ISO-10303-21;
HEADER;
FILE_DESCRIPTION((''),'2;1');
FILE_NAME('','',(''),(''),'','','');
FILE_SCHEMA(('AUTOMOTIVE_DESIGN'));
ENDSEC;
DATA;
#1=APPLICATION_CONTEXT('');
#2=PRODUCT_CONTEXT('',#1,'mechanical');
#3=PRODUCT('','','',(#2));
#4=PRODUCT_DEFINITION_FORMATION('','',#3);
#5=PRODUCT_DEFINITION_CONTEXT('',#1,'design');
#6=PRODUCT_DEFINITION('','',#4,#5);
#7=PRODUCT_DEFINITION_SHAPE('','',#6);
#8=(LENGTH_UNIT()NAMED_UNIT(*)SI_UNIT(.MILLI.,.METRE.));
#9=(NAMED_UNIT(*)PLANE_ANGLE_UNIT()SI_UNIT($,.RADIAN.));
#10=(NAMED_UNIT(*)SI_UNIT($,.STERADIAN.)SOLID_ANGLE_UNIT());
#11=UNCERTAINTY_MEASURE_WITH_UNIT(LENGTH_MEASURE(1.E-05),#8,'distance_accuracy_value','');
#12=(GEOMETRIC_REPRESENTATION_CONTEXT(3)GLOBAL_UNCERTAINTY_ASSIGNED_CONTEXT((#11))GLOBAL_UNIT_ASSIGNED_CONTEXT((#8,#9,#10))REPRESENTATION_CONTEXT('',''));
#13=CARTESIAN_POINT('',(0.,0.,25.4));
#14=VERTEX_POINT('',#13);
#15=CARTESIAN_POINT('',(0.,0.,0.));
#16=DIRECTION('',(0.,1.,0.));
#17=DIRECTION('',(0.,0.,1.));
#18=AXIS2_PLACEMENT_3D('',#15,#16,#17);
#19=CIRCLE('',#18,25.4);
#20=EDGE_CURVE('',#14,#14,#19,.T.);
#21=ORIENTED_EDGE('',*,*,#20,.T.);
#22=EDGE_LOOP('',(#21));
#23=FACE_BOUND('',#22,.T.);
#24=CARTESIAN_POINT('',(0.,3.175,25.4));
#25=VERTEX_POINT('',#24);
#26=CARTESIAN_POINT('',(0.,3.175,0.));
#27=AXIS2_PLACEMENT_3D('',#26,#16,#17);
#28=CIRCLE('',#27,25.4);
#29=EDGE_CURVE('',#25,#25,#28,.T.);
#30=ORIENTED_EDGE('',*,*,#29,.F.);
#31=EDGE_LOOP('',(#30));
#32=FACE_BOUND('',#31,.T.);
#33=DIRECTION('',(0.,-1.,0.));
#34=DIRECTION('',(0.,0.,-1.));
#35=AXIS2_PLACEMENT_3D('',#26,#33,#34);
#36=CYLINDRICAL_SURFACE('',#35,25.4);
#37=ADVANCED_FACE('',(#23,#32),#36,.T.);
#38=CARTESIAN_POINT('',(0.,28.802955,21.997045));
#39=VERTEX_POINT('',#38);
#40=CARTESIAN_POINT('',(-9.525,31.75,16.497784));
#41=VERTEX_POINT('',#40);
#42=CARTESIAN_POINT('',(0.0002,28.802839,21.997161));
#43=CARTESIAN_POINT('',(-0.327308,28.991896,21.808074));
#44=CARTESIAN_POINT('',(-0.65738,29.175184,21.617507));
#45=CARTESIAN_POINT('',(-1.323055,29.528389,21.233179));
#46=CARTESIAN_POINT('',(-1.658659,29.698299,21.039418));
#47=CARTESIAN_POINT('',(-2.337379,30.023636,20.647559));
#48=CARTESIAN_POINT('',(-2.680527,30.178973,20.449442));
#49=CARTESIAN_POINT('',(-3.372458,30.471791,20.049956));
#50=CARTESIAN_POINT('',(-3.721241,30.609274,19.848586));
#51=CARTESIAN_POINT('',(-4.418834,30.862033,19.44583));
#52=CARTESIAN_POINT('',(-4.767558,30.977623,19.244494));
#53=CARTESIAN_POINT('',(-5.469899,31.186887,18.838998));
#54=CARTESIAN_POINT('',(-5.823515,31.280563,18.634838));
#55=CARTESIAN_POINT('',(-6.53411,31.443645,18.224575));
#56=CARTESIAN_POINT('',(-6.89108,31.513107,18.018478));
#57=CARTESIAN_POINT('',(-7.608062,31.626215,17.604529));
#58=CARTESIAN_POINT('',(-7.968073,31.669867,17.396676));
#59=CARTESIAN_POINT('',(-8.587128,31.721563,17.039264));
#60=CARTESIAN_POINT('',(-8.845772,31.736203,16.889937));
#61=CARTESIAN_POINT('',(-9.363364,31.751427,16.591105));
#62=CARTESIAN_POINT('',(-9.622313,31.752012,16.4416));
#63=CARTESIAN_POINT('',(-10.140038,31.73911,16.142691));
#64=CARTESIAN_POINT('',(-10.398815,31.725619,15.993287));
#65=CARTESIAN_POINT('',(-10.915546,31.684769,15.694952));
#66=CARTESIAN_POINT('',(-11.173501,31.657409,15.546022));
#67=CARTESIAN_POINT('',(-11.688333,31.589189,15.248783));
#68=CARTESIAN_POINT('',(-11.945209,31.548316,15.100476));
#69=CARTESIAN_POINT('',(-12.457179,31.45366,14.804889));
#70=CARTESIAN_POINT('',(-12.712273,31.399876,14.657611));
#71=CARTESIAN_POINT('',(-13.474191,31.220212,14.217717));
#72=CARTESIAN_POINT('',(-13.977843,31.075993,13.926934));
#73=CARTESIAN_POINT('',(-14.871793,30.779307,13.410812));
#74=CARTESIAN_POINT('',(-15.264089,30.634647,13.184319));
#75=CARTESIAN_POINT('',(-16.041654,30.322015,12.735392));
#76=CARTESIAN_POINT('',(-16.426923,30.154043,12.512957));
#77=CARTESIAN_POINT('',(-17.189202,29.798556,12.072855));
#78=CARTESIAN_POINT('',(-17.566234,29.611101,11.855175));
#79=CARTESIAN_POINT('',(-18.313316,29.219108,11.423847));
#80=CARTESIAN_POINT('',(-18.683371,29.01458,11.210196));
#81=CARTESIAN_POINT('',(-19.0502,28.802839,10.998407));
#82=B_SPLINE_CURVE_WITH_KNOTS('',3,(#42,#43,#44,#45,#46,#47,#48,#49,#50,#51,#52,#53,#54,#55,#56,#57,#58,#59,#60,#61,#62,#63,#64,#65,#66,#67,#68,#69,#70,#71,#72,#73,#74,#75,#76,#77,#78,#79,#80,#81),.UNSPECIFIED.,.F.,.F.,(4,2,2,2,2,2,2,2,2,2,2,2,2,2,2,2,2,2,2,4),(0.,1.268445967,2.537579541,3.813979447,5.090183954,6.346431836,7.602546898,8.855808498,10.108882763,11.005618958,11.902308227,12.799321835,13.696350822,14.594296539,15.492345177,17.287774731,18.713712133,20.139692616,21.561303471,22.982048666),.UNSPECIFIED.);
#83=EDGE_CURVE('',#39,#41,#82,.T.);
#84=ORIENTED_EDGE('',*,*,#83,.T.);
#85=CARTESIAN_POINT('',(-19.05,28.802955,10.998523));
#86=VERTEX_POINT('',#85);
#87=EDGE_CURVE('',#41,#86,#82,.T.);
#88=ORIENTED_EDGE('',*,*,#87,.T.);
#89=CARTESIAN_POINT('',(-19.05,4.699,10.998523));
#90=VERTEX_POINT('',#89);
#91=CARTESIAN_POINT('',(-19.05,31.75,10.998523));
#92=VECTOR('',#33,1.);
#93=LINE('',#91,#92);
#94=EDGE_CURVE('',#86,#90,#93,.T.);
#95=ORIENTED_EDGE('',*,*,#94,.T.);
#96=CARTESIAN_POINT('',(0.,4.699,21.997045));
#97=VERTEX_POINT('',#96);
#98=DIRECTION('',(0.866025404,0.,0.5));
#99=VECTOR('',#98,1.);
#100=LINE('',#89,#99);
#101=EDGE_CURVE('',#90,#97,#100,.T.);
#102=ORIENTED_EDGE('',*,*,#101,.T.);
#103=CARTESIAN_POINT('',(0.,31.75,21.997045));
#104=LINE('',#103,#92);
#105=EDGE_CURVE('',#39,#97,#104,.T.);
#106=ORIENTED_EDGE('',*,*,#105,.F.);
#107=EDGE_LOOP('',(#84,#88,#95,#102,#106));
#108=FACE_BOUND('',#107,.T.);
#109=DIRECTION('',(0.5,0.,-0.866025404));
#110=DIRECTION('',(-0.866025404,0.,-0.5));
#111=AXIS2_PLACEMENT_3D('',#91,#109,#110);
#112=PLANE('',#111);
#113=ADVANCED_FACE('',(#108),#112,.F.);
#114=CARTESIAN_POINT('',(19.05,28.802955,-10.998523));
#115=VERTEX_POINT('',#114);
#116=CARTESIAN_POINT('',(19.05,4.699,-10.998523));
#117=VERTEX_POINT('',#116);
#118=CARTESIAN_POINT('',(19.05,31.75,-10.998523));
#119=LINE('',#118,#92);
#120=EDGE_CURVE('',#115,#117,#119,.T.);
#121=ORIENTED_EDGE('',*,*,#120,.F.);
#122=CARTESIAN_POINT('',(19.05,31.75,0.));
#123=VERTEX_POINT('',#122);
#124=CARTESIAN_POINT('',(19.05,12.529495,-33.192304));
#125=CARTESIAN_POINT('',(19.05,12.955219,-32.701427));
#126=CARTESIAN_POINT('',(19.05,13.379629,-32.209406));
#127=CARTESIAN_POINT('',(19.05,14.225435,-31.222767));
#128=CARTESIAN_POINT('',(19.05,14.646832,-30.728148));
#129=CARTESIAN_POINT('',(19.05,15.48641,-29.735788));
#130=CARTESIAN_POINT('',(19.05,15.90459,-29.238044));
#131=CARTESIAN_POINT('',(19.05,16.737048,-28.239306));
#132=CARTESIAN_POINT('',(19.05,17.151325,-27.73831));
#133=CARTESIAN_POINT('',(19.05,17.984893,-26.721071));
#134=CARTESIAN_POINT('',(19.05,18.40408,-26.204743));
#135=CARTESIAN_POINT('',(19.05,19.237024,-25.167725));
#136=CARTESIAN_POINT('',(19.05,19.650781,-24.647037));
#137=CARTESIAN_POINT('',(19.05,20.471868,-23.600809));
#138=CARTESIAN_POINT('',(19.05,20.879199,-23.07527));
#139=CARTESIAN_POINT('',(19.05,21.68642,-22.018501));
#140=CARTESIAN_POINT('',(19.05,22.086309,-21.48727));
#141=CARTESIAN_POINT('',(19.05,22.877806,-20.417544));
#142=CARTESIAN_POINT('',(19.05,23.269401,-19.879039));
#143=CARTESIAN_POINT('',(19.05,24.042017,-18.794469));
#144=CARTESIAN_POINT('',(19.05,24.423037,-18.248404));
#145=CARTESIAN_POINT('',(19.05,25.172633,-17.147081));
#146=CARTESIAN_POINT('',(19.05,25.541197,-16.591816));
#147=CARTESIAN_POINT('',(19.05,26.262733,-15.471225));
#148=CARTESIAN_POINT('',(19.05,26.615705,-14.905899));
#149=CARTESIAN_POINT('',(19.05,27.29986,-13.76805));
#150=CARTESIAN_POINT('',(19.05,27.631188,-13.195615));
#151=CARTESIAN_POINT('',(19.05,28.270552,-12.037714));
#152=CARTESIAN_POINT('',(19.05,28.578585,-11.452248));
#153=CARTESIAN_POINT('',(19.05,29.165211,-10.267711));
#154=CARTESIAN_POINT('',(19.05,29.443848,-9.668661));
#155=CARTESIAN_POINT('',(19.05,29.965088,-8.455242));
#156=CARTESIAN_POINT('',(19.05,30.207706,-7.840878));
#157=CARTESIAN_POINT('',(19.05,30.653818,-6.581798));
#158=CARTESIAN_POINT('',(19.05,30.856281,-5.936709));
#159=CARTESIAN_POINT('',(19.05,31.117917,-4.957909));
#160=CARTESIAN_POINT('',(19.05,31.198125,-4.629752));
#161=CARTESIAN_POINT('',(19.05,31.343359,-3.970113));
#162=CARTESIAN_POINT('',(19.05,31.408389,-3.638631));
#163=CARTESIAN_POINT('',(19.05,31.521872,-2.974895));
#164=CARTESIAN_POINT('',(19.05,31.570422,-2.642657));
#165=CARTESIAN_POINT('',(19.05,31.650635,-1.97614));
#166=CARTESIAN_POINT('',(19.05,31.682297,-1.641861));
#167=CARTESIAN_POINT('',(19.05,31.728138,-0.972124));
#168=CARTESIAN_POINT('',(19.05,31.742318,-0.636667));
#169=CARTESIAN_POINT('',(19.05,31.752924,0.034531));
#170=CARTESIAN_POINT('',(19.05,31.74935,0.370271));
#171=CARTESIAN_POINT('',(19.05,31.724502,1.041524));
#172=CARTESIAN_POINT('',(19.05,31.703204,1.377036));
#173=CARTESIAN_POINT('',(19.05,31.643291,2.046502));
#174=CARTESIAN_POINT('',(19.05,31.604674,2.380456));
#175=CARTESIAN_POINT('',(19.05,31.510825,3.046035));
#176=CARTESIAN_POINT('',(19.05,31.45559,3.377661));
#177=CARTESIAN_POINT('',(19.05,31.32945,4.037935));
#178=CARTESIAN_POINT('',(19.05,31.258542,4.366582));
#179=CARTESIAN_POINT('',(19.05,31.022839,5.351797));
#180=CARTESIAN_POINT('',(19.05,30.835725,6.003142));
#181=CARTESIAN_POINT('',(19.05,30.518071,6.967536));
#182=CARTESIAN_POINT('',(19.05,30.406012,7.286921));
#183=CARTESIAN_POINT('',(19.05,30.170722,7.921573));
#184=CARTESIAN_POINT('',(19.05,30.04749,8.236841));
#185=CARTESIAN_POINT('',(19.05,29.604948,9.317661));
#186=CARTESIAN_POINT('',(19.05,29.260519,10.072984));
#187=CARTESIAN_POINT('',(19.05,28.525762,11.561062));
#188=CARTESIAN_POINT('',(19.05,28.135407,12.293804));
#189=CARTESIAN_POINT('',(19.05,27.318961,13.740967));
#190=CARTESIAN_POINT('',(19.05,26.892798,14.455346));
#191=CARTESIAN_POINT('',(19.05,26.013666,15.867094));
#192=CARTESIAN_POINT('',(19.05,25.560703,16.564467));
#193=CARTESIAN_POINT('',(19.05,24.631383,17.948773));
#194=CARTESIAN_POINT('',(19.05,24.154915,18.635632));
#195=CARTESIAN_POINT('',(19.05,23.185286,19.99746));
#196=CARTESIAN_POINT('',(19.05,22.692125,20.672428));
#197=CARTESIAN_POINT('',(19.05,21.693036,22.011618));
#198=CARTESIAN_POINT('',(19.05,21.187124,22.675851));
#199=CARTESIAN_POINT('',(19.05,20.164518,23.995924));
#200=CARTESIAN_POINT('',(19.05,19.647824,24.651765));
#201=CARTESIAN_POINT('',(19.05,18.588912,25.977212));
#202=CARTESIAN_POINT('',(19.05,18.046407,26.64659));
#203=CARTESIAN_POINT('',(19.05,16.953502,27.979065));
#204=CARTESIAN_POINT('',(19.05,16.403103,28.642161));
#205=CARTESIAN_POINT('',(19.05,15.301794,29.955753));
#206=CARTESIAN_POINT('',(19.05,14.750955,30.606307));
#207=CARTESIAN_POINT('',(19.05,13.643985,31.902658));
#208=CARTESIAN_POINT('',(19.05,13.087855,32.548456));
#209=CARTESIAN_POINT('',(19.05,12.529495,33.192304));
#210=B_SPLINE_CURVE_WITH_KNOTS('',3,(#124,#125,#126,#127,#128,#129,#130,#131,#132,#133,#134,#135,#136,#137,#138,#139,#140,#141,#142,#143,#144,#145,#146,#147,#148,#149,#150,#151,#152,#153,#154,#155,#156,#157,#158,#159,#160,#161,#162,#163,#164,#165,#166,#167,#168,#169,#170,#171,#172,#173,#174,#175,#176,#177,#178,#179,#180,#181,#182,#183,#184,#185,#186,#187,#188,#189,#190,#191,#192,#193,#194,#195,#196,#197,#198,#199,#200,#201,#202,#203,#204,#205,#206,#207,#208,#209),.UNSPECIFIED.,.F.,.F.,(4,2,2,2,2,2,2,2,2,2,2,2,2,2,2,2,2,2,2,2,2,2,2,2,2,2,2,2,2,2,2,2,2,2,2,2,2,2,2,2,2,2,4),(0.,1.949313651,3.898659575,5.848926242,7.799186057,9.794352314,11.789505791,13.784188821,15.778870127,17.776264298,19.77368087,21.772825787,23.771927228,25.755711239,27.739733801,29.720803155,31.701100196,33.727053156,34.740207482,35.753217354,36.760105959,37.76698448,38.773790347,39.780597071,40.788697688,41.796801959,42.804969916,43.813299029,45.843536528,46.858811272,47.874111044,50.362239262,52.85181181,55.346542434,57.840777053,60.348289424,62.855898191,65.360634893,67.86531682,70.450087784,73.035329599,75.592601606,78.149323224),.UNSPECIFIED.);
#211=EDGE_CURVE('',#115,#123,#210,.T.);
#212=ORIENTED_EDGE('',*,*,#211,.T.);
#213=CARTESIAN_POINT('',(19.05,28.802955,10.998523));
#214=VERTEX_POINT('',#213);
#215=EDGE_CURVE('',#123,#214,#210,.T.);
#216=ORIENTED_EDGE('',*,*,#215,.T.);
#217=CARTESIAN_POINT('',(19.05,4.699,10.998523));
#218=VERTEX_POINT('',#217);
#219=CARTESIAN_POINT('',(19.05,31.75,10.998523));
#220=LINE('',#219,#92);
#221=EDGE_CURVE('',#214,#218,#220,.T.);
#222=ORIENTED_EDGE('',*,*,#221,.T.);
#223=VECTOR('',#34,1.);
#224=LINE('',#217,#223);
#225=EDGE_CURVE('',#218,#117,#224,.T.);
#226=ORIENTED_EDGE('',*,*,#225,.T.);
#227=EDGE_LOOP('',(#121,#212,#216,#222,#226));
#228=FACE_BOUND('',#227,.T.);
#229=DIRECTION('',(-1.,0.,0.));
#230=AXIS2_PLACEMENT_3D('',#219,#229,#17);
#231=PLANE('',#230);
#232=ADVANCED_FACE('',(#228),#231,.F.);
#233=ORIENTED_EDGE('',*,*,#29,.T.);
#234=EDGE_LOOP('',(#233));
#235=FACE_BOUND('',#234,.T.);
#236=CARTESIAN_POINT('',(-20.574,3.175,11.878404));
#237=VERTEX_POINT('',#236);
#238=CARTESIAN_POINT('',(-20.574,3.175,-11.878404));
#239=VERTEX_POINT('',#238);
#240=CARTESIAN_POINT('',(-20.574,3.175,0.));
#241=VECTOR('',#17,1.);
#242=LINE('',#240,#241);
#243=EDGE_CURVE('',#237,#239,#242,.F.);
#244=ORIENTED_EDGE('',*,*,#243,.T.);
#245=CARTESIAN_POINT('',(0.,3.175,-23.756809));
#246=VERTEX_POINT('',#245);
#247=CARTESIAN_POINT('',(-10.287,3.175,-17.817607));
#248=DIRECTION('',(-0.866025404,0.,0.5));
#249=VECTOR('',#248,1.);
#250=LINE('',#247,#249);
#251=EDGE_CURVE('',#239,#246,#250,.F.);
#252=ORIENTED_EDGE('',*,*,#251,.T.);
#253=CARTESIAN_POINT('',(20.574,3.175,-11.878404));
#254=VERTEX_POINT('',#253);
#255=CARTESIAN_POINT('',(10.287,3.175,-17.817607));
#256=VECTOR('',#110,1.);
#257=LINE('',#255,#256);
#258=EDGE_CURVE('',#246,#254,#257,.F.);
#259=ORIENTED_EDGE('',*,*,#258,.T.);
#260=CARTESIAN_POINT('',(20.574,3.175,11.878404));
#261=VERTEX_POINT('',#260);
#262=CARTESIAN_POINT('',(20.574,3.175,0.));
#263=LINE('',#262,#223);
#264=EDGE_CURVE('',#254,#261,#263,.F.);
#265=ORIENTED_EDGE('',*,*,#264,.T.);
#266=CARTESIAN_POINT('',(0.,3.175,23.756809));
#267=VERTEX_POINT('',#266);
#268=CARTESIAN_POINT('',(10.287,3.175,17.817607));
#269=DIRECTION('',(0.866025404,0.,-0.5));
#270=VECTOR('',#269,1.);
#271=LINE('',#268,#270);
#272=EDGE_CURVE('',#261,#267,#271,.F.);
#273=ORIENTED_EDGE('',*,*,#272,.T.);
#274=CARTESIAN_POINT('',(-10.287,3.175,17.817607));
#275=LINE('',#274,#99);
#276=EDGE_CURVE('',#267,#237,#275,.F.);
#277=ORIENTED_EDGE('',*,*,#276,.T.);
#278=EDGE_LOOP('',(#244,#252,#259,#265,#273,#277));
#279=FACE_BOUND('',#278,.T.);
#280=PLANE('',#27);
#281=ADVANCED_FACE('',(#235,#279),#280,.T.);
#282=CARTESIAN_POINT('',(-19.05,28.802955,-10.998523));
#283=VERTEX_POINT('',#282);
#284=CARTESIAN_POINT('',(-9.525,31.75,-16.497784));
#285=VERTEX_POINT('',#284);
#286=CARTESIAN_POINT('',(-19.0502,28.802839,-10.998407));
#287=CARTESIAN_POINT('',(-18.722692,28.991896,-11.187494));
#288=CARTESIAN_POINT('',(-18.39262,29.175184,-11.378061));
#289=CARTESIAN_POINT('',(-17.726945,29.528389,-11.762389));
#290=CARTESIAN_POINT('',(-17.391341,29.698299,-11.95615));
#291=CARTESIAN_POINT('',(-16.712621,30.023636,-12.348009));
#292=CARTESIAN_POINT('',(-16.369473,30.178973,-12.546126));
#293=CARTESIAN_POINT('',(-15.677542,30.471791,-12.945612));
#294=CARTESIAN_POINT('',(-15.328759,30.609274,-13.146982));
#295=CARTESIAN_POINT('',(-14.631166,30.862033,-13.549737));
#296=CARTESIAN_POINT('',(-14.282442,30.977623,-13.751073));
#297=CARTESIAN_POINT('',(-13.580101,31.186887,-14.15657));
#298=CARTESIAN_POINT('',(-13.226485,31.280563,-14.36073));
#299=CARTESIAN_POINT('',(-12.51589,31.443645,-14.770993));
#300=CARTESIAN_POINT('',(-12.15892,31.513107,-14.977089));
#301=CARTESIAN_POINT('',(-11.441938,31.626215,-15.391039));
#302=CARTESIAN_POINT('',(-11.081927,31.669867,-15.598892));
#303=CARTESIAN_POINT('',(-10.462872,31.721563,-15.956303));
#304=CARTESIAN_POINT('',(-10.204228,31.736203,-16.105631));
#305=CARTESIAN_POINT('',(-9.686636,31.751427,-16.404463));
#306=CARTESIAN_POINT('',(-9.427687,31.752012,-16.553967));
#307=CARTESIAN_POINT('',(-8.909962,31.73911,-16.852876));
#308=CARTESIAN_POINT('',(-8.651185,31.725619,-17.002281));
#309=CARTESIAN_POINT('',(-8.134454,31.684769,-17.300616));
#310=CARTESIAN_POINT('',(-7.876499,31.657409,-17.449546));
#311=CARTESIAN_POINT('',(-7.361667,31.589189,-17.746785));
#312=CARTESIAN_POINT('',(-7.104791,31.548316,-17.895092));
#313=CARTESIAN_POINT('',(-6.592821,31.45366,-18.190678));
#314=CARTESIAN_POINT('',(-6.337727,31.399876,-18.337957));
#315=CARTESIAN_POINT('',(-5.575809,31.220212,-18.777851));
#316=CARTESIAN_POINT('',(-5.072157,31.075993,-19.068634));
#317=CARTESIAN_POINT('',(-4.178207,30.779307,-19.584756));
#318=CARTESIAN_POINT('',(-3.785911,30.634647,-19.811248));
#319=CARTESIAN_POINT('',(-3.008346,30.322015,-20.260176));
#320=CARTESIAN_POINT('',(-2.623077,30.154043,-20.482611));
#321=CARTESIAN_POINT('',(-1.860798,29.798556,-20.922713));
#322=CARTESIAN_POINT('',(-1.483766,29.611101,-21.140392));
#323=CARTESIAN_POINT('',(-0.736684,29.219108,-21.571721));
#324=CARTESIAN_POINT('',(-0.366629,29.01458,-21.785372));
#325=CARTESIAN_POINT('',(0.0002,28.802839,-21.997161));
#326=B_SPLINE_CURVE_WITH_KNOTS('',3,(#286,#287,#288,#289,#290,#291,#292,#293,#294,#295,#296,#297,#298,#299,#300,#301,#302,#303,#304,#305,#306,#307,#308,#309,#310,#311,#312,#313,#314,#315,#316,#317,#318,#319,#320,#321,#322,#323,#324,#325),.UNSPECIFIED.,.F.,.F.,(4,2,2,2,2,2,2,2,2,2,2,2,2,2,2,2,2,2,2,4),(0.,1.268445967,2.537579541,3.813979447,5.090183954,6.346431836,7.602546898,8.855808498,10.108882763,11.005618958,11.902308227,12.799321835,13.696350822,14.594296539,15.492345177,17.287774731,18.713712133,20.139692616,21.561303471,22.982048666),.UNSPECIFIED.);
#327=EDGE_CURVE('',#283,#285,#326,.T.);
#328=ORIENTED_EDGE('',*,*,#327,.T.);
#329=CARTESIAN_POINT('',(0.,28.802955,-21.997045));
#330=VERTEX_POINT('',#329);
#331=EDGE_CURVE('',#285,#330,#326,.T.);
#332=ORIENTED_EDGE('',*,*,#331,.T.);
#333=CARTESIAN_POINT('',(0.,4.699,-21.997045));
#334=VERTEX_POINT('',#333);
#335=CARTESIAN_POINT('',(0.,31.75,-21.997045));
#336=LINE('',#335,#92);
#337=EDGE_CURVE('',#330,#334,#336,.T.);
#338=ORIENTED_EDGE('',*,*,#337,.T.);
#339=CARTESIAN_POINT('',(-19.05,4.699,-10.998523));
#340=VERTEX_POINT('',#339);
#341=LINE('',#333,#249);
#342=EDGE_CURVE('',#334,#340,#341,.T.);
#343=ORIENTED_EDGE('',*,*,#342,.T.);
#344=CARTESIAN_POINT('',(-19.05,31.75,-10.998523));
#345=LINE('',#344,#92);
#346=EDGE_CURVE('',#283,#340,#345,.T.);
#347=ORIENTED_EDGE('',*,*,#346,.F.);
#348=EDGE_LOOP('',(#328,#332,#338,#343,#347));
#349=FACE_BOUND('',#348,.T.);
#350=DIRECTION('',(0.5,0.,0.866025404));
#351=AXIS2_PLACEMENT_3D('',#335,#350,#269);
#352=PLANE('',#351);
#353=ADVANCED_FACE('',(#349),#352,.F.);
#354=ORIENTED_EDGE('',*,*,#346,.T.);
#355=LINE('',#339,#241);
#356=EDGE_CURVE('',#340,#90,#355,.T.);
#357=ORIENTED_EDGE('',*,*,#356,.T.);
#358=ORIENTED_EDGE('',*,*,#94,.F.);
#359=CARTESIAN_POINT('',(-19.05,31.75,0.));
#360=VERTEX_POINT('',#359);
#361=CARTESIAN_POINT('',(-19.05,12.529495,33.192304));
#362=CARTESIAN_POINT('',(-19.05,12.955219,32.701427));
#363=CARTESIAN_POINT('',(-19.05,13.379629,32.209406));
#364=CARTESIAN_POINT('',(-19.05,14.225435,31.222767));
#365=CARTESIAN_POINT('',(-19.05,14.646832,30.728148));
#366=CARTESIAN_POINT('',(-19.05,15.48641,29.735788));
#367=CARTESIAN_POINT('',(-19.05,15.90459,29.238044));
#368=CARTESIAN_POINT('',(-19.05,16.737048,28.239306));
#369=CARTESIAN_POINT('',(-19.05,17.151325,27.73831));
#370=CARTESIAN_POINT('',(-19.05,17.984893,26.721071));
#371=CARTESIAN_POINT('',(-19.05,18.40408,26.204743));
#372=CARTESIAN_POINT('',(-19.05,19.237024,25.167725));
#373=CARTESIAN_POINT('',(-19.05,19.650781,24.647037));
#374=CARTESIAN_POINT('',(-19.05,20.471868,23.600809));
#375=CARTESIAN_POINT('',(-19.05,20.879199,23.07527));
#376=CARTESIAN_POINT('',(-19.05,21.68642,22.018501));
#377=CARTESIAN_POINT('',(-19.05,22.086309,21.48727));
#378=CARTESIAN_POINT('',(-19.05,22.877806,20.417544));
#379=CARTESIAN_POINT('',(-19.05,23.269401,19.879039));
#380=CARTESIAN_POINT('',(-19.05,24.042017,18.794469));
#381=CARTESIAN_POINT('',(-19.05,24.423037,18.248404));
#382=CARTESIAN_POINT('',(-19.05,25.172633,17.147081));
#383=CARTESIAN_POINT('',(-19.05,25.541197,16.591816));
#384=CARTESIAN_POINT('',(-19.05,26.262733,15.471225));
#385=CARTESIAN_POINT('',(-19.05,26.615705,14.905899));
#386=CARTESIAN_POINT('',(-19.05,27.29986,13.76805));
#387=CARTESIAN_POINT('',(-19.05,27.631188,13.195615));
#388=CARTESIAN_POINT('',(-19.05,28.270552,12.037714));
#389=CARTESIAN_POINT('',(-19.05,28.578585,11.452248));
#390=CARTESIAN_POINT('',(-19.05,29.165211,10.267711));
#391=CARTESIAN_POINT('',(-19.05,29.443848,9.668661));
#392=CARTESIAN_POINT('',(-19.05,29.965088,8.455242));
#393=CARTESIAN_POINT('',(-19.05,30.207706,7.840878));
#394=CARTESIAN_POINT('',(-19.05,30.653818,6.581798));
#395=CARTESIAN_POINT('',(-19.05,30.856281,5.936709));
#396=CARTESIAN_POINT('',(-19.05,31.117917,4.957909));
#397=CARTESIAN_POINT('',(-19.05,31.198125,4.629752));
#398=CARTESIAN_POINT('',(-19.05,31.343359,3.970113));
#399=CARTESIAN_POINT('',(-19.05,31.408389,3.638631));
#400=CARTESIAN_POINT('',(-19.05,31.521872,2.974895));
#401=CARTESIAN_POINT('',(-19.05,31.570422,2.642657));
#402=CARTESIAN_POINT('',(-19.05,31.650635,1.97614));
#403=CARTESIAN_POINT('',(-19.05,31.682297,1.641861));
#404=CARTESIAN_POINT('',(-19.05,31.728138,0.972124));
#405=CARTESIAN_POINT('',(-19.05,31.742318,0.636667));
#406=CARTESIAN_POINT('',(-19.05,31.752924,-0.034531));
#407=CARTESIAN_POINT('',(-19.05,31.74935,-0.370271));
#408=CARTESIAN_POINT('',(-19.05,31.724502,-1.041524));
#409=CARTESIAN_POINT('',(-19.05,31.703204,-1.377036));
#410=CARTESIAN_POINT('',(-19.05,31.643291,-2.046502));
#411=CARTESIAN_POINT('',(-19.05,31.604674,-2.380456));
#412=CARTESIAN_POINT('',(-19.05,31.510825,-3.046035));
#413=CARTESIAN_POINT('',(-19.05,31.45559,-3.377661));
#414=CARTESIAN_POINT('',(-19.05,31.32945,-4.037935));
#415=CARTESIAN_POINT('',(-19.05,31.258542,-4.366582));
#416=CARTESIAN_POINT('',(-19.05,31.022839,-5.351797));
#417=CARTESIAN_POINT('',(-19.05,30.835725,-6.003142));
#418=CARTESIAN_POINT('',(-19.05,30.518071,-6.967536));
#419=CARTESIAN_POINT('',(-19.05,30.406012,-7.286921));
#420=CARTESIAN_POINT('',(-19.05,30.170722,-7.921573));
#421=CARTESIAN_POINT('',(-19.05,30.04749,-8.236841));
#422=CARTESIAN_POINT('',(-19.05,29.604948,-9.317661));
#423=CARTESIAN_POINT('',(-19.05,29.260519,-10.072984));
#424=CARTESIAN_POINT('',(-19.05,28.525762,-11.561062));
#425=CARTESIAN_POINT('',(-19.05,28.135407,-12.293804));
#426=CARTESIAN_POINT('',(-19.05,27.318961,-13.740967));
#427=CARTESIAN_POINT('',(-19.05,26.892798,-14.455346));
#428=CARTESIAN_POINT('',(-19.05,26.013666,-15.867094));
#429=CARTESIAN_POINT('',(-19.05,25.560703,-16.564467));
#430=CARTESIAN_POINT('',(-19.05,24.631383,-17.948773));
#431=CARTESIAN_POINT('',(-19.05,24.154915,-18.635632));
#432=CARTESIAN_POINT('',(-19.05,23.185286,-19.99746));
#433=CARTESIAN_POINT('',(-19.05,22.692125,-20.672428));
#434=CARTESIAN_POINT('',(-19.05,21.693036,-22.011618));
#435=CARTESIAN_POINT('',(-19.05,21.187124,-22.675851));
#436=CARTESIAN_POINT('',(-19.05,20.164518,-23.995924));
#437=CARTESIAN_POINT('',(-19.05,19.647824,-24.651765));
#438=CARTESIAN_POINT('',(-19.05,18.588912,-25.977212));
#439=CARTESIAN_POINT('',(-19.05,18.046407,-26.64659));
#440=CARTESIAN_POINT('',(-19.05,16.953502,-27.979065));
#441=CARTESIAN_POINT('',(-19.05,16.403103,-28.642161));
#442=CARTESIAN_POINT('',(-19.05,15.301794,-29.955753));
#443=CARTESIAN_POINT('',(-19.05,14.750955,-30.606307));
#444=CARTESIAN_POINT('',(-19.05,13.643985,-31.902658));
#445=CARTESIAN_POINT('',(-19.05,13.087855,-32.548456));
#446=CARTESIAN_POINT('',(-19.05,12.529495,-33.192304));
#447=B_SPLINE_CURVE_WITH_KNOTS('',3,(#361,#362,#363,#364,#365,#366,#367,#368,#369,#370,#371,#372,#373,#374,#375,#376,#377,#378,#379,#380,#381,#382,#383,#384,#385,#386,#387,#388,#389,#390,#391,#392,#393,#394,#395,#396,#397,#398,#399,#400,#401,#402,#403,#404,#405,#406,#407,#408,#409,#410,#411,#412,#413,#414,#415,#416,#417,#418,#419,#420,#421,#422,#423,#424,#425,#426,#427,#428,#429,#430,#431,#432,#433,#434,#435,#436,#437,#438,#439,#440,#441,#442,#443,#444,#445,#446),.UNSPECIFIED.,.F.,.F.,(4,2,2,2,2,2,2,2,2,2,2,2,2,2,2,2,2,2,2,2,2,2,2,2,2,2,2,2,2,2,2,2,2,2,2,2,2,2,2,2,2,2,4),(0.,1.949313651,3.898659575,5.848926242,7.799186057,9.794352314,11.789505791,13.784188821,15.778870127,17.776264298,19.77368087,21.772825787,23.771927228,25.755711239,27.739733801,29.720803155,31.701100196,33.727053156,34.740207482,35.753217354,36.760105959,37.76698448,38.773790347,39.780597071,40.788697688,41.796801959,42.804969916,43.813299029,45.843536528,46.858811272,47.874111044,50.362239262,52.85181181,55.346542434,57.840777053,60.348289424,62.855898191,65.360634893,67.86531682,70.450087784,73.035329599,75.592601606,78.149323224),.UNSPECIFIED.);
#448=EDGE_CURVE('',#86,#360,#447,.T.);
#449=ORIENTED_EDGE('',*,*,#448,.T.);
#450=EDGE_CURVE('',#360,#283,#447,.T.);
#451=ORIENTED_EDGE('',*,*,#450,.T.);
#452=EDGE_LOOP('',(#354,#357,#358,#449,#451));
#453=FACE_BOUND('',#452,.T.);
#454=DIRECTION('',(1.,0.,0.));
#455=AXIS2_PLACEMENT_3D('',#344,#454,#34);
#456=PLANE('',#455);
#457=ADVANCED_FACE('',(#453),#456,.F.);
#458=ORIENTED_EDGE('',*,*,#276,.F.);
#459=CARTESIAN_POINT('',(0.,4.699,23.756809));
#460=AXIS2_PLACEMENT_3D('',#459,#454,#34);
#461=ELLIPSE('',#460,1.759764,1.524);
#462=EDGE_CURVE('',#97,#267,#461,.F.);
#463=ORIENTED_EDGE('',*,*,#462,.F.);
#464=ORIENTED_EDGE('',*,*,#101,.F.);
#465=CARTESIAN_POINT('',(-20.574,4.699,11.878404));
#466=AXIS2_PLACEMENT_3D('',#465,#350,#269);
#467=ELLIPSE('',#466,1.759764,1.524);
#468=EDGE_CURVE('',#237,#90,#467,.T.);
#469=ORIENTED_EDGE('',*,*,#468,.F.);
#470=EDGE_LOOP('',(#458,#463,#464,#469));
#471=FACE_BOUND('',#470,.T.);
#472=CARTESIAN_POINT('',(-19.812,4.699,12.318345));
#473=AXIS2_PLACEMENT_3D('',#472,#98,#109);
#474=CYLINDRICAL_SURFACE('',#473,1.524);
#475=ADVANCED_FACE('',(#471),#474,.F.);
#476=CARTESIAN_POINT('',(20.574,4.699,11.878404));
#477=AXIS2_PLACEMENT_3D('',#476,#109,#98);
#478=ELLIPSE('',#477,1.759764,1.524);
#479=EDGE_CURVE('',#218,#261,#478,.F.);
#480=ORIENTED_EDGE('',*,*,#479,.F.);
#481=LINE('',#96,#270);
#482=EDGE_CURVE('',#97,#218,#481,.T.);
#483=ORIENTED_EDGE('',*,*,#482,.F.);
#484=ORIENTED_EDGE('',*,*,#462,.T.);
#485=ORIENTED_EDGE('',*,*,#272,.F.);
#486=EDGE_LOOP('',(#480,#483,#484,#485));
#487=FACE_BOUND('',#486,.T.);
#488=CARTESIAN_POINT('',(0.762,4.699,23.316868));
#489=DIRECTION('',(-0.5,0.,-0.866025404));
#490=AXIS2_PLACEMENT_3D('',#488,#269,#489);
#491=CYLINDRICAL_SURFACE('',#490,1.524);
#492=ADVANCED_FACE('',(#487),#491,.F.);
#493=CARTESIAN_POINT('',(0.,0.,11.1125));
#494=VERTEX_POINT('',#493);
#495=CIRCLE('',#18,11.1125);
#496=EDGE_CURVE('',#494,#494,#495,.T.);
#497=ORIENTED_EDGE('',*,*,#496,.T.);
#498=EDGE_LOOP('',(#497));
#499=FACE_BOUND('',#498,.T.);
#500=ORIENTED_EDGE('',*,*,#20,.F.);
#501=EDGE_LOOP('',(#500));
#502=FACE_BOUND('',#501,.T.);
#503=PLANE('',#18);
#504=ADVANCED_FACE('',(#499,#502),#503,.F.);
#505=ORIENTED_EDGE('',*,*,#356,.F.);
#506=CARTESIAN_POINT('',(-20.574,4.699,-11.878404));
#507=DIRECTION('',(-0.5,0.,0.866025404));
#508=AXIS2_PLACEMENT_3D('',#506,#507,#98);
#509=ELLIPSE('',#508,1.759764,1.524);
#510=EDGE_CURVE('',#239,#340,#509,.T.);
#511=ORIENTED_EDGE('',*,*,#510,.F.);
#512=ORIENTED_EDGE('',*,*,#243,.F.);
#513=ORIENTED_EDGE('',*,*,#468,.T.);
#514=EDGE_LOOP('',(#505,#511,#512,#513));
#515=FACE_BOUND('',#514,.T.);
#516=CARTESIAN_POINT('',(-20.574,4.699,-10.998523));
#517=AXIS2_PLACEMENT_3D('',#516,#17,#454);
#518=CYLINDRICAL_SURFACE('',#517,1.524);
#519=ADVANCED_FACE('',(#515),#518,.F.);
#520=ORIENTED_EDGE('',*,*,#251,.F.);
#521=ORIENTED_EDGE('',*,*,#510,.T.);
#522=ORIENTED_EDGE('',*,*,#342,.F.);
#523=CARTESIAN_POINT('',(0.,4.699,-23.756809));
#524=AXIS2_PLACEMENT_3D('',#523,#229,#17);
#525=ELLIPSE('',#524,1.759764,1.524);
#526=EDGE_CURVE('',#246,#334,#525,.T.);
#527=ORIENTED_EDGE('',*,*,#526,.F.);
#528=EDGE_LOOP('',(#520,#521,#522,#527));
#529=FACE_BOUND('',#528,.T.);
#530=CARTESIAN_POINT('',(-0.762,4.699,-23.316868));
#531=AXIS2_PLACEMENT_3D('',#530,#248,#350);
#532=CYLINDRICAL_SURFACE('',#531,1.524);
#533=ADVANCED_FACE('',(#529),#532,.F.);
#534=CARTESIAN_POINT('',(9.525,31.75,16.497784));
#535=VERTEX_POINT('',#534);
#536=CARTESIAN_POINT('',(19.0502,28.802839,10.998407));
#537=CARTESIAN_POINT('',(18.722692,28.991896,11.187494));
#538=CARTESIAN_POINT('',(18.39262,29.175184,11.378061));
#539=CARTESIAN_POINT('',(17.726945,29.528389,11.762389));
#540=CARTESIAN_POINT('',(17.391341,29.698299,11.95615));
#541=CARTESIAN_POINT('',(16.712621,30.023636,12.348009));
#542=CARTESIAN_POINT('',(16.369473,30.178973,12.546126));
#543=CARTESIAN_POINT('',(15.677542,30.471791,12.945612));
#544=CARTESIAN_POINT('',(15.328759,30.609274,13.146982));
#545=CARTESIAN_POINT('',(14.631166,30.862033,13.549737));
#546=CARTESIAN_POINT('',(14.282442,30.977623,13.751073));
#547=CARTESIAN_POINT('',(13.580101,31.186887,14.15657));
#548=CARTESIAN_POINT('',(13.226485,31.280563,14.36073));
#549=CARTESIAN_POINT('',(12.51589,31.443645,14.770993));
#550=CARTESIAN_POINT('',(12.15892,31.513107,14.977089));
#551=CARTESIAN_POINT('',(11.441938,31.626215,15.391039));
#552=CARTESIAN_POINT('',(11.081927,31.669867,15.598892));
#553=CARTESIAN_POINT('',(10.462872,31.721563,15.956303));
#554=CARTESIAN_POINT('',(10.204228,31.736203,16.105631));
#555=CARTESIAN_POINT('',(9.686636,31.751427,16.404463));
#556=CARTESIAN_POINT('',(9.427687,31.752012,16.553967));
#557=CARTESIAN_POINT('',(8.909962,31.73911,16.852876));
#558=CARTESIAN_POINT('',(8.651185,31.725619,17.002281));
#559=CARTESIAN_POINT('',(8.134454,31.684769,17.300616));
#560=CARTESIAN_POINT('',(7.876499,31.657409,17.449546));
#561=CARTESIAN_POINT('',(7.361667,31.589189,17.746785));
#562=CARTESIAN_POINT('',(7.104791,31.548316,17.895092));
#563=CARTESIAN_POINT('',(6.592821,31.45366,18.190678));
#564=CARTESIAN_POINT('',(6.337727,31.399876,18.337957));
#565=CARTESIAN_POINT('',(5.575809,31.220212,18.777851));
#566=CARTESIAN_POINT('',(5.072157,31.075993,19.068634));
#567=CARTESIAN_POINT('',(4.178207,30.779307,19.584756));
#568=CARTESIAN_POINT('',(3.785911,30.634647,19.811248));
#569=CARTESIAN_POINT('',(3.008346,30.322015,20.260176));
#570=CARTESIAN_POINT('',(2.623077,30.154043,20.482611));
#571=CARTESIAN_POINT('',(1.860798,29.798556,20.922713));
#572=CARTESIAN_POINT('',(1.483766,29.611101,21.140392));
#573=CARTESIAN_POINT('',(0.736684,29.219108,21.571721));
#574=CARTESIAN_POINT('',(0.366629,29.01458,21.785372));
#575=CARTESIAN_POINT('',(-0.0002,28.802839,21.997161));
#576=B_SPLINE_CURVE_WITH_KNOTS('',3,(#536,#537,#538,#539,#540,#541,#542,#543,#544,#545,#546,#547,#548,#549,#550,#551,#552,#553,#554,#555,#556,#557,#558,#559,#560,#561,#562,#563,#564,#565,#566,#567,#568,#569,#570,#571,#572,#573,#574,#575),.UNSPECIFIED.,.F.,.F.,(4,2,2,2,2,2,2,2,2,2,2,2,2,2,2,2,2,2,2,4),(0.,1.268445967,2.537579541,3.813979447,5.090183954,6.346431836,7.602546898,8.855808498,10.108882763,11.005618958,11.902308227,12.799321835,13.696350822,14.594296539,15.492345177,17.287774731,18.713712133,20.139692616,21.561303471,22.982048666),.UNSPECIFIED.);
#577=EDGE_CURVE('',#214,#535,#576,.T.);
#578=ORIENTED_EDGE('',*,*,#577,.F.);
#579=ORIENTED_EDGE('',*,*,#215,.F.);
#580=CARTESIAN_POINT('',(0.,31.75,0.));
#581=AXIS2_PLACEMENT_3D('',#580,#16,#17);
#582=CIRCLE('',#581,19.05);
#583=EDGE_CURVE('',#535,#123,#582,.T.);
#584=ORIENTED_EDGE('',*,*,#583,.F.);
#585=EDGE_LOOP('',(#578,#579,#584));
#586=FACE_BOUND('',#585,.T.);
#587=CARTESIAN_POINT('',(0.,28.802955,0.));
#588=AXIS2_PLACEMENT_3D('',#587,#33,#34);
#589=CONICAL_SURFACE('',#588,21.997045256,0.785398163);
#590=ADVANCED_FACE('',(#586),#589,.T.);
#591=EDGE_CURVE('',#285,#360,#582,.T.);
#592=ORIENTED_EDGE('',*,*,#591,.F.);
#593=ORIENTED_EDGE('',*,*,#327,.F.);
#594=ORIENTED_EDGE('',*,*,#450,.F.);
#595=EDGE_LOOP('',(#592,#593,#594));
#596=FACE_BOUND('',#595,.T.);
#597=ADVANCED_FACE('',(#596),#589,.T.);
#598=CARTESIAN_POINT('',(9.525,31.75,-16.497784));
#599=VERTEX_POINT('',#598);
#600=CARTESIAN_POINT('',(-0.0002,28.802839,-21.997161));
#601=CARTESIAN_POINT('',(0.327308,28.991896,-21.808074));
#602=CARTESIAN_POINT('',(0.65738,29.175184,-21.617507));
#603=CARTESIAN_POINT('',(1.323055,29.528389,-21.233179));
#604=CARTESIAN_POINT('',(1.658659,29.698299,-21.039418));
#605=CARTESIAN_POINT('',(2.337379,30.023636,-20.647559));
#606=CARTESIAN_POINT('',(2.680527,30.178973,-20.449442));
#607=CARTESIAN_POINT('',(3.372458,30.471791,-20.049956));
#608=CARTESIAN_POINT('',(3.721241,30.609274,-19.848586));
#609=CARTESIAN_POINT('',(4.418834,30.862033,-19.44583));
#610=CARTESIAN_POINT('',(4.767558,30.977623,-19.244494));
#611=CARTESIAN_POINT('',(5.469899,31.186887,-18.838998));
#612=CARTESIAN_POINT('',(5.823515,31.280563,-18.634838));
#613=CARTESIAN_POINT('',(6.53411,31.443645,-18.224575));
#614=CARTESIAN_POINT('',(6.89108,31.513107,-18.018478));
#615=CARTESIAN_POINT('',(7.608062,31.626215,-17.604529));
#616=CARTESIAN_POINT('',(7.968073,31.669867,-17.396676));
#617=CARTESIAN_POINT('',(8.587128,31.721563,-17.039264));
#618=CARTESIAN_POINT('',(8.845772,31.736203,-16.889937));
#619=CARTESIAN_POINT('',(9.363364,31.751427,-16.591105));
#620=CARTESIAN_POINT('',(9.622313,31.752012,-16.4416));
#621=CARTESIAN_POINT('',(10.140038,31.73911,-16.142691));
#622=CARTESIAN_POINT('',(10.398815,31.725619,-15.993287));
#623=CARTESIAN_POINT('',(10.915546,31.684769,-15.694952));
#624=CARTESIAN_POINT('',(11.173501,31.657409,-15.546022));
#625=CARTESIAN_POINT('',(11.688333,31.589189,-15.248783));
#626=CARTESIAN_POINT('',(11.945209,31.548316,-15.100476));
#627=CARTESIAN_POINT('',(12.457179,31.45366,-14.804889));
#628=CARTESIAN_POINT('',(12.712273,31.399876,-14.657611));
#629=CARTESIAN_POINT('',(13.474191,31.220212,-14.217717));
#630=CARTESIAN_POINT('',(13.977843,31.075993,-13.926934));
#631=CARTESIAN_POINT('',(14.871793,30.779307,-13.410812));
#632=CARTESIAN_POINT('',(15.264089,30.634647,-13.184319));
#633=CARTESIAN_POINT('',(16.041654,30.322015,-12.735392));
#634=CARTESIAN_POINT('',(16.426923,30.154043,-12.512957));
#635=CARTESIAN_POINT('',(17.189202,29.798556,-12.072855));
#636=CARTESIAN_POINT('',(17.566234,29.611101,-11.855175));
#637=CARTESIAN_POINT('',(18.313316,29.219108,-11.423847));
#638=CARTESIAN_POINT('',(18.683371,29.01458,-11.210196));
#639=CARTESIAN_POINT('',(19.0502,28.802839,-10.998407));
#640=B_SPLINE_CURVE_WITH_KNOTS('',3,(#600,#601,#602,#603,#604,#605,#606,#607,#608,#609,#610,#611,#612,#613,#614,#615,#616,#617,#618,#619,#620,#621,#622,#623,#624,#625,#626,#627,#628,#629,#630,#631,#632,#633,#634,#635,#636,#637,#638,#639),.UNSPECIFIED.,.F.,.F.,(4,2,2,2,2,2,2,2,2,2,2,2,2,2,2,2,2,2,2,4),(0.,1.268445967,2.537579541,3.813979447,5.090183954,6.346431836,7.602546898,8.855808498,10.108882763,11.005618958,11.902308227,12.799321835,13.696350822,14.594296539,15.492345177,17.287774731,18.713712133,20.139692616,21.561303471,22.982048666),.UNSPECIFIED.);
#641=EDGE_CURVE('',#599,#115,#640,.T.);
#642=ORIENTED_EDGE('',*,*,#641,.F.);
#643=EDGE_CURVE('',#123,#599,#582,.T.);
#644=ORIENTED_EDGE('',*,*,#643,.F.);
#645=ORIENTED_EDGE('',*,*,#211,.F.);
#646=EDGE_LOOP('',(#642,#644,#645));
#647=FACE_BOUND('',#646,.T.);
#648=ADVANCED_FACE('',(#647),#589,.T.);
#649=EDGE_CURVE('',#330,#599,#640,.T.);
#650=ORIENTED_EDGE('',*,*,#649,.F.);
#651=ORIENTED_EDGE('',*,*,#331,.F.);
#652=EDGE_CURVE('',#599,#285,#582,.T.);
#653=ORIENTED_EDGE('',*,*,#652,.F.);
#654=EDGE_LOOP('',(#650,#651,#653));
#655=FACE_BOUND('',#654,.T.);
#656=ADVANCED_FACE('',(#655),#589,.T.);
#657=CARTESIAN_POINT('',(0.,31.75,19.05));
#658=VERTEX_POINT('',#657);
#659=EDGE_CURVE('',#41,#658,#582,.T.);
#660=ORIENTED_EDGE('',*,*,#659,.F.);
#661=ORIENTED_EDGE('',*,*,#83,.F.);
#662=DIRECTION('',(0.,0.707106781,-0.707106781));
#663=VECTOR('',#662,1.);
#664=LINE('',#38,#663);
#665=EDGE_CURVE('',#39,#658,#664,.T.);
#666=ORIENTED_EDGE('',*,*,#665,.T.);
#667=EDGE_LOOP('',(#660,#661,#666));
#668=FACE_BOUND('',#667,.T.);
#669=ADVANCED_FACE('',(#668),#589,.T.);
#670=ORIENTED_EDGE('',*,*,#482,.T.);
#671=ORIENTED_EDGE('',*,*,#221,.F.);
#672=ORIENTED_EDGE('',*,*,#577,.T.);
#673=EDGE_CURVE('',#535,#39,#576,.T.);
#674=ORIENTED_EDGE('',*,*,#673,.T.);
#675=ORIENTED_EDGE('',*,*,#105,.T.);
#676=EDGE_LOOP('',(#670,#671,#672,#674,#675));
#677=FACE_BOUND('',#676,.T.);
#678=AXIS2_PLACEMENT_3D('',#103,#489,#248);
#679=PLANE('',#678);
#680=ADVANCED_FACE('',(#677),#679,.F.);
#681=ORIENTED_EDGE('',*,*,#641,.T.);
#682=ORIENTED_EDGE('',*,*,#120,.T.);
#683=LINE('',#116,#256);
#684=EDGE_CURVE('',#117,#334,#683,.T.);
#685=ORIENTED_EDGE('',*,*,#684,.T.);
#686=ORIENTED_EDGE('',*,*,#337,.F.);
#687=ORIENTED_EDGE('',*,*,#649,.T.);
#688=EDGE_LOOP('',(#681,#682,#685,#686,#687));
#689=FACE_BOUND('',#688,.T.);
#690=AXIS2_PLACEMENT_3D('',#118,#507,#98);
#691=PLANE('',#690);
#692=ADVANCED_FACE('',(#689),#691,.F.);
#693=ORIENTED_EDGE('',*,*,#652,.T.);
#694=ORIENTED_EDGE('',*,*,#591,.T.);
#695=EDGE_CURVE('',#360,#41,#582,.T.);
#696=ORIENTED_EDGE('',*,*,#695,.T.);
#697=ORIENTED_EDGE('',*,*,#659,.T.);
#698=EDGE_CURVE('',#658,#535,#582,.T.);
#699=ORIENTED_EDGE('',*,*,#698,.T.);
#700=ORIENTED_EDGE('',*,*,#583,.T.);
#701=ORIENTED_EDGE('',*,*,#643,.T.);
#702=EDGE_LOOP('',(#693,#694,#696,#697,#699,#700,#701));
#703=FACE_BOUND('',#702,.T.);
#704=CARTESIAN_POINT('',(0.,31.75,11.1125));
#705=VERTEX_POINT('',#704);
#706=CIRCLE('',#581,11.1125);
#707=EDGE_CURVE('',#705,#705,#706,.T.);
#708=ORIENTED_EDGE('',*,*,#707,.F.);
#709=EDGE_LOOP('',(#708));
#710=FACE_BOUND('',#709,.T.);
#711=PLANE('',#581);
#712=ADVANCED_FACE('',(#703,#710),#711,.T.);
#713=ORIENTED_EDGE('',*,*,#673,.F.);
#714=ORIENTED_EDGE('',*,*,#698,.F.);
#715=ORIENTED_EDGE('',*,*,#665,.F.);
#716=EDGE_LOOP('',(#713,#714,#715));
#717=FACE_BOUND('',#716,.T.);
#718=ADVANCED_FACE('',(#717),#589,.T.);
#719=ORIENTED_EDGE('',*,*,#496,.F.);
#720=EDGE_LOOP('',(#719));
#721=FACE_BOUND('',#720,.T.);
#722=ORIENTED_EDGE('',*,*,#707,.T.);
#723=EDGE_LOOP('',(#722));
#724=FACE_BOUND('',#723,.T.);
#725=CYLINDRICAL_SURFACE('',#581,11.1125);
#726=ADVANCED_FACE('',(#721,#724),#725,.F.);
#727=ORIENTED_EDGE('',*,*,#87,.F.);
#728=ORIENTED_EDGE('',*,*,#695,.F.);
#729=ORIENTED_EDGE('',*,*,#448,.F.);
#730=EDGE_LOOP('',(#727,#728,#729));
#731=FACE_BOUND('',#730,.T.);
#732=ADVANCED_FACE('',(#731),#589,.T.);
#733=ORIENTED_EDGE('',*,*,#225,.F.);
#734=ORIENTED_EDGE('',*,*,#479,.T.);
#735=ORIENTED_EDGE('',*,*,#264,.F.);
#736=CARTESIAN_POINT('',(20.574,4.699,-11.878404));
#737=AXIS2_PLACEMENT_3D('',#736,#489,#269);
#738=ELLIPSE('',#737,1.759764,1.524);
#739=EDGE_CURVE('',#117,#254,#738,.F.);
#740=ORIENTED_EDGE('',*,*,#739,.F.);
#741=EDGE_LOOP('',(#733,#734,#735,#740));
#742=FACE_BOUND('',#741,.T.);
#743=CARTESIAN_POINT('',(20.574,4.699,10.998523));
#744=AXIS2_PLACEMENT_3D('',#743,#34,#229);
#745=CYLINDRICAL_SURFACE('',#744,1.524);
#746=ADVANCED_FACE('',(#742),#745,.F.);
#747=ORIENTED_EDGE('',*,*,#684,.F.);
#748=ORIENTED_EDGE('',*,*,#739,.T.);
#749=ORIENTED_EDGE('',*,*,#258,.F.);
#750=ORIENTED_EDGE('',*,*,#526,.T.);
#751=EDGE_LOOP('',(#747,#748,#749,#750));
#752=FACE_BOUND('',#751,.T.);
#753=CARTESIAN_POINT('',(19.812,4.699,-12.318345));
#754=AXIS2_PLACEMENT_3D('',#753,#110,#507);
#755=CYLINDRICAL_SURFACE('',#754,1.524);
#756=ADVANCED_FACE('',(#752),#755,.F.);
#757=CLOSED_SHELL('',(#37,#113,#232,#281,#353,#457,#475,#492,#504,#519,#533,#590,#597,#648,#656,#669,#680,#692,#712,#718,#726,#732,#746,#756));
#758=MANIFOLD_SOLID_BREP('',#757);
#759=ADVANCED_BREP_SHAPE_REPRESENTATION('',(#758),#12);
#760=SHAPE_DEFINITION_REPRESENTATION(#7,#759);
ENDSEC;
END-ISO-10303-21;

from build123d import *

# Parameters (mm, degrees)
SKETCH2_R                = 25.4
BOSS_EXTRUDE1_DEPTH      = 3.175
BOSS_EXTRUDE2_DEPTH      = 28.575
F_1_8_TAPPED_HOLE1_D     = 22.225
F_1_8_TAPPED_HOLE1_DEPTH = 31.75
FILLET1_R                = 1.524


with BuildPart() as part:
    # Sketch2 → Boss-Extrude1 (new body)
    with BuildSketch(Plane(origin=(0, 0, 0), x_dir=(1, 0, 0), z_dir=(0, 1, 0))):
        Circle(SKETCH2_R)
    extrude(amount=BOSS_EXTRUDE1_DEPTH)

    # Sketch3 → Boss-Extrude2 (add)
    with BuildSketch(Plane(origin=(0, 3.175, 0), x_dir=(1, 0, 0), z_dir=(0, 1, 0))):
        Polygon((0, 21.997045256), (-19.05, 10.998522628), (-19.05, -10.998522628), (0, -21.997045256), (19.05, -10.998522628), (19.05, 10.998522628), align=None)
    extrude(amount=BOSS_EXTRUDE2_DEPTH)

    # 1-8 Tapped Hole1
    with Locations(Plane(origin=(0, 31.75, 0), x_dir=(1, 0, 0), z_dir=(0, 1, 0))):
        with Locations((0, 0)):
            Hole(F_1_8_TAPPED_HOLE1_D / 2, depth=F_1_8_TAPPED_HOLE1_DEPTH)

    # Cut-Sweep1: sweep along a path in Sketch7
    with BuildLine(Plane(origin=(0, 31.75, 0), x_dir=(1, 0, 0), z_dir=(0, 1, 0))) as cut_sweep1_path:
        CenterArc((0, 0), 19.05, 0, 360)
    # Sketch8 → Cut-Sweep1 (sweep, cut)
    with BuildSketch(Plane(origin=(0, 0, 0), x_dir=(0, 0, -1), z_dir=(1, 0, 0))):
        Polygon((-21.997045256, 28.802954744), (-21.997045256, 31.75), (-19.05, 31.75), align=None)
    sweep(path=cut_sweep1_path.line, mode=Mode.SUBTRACT)

    # Fillet1
    fillet1_edges = [part.edges().sort_by_distance(p)[0] for p in [
        (9.525, 3.175, -16.497783942),
        (-9.525, 3.175, -16.497783942),
        (-19.05, 3.175, 0),
        (-9.525, 3.175, 16.497783942),
        (9.525, 3.175, 16.497783942),
        (19.05, 3.175, 0),
    ]]
    fillet(fillet1_edges, radius=FILLET1_R)


solid = part.part
